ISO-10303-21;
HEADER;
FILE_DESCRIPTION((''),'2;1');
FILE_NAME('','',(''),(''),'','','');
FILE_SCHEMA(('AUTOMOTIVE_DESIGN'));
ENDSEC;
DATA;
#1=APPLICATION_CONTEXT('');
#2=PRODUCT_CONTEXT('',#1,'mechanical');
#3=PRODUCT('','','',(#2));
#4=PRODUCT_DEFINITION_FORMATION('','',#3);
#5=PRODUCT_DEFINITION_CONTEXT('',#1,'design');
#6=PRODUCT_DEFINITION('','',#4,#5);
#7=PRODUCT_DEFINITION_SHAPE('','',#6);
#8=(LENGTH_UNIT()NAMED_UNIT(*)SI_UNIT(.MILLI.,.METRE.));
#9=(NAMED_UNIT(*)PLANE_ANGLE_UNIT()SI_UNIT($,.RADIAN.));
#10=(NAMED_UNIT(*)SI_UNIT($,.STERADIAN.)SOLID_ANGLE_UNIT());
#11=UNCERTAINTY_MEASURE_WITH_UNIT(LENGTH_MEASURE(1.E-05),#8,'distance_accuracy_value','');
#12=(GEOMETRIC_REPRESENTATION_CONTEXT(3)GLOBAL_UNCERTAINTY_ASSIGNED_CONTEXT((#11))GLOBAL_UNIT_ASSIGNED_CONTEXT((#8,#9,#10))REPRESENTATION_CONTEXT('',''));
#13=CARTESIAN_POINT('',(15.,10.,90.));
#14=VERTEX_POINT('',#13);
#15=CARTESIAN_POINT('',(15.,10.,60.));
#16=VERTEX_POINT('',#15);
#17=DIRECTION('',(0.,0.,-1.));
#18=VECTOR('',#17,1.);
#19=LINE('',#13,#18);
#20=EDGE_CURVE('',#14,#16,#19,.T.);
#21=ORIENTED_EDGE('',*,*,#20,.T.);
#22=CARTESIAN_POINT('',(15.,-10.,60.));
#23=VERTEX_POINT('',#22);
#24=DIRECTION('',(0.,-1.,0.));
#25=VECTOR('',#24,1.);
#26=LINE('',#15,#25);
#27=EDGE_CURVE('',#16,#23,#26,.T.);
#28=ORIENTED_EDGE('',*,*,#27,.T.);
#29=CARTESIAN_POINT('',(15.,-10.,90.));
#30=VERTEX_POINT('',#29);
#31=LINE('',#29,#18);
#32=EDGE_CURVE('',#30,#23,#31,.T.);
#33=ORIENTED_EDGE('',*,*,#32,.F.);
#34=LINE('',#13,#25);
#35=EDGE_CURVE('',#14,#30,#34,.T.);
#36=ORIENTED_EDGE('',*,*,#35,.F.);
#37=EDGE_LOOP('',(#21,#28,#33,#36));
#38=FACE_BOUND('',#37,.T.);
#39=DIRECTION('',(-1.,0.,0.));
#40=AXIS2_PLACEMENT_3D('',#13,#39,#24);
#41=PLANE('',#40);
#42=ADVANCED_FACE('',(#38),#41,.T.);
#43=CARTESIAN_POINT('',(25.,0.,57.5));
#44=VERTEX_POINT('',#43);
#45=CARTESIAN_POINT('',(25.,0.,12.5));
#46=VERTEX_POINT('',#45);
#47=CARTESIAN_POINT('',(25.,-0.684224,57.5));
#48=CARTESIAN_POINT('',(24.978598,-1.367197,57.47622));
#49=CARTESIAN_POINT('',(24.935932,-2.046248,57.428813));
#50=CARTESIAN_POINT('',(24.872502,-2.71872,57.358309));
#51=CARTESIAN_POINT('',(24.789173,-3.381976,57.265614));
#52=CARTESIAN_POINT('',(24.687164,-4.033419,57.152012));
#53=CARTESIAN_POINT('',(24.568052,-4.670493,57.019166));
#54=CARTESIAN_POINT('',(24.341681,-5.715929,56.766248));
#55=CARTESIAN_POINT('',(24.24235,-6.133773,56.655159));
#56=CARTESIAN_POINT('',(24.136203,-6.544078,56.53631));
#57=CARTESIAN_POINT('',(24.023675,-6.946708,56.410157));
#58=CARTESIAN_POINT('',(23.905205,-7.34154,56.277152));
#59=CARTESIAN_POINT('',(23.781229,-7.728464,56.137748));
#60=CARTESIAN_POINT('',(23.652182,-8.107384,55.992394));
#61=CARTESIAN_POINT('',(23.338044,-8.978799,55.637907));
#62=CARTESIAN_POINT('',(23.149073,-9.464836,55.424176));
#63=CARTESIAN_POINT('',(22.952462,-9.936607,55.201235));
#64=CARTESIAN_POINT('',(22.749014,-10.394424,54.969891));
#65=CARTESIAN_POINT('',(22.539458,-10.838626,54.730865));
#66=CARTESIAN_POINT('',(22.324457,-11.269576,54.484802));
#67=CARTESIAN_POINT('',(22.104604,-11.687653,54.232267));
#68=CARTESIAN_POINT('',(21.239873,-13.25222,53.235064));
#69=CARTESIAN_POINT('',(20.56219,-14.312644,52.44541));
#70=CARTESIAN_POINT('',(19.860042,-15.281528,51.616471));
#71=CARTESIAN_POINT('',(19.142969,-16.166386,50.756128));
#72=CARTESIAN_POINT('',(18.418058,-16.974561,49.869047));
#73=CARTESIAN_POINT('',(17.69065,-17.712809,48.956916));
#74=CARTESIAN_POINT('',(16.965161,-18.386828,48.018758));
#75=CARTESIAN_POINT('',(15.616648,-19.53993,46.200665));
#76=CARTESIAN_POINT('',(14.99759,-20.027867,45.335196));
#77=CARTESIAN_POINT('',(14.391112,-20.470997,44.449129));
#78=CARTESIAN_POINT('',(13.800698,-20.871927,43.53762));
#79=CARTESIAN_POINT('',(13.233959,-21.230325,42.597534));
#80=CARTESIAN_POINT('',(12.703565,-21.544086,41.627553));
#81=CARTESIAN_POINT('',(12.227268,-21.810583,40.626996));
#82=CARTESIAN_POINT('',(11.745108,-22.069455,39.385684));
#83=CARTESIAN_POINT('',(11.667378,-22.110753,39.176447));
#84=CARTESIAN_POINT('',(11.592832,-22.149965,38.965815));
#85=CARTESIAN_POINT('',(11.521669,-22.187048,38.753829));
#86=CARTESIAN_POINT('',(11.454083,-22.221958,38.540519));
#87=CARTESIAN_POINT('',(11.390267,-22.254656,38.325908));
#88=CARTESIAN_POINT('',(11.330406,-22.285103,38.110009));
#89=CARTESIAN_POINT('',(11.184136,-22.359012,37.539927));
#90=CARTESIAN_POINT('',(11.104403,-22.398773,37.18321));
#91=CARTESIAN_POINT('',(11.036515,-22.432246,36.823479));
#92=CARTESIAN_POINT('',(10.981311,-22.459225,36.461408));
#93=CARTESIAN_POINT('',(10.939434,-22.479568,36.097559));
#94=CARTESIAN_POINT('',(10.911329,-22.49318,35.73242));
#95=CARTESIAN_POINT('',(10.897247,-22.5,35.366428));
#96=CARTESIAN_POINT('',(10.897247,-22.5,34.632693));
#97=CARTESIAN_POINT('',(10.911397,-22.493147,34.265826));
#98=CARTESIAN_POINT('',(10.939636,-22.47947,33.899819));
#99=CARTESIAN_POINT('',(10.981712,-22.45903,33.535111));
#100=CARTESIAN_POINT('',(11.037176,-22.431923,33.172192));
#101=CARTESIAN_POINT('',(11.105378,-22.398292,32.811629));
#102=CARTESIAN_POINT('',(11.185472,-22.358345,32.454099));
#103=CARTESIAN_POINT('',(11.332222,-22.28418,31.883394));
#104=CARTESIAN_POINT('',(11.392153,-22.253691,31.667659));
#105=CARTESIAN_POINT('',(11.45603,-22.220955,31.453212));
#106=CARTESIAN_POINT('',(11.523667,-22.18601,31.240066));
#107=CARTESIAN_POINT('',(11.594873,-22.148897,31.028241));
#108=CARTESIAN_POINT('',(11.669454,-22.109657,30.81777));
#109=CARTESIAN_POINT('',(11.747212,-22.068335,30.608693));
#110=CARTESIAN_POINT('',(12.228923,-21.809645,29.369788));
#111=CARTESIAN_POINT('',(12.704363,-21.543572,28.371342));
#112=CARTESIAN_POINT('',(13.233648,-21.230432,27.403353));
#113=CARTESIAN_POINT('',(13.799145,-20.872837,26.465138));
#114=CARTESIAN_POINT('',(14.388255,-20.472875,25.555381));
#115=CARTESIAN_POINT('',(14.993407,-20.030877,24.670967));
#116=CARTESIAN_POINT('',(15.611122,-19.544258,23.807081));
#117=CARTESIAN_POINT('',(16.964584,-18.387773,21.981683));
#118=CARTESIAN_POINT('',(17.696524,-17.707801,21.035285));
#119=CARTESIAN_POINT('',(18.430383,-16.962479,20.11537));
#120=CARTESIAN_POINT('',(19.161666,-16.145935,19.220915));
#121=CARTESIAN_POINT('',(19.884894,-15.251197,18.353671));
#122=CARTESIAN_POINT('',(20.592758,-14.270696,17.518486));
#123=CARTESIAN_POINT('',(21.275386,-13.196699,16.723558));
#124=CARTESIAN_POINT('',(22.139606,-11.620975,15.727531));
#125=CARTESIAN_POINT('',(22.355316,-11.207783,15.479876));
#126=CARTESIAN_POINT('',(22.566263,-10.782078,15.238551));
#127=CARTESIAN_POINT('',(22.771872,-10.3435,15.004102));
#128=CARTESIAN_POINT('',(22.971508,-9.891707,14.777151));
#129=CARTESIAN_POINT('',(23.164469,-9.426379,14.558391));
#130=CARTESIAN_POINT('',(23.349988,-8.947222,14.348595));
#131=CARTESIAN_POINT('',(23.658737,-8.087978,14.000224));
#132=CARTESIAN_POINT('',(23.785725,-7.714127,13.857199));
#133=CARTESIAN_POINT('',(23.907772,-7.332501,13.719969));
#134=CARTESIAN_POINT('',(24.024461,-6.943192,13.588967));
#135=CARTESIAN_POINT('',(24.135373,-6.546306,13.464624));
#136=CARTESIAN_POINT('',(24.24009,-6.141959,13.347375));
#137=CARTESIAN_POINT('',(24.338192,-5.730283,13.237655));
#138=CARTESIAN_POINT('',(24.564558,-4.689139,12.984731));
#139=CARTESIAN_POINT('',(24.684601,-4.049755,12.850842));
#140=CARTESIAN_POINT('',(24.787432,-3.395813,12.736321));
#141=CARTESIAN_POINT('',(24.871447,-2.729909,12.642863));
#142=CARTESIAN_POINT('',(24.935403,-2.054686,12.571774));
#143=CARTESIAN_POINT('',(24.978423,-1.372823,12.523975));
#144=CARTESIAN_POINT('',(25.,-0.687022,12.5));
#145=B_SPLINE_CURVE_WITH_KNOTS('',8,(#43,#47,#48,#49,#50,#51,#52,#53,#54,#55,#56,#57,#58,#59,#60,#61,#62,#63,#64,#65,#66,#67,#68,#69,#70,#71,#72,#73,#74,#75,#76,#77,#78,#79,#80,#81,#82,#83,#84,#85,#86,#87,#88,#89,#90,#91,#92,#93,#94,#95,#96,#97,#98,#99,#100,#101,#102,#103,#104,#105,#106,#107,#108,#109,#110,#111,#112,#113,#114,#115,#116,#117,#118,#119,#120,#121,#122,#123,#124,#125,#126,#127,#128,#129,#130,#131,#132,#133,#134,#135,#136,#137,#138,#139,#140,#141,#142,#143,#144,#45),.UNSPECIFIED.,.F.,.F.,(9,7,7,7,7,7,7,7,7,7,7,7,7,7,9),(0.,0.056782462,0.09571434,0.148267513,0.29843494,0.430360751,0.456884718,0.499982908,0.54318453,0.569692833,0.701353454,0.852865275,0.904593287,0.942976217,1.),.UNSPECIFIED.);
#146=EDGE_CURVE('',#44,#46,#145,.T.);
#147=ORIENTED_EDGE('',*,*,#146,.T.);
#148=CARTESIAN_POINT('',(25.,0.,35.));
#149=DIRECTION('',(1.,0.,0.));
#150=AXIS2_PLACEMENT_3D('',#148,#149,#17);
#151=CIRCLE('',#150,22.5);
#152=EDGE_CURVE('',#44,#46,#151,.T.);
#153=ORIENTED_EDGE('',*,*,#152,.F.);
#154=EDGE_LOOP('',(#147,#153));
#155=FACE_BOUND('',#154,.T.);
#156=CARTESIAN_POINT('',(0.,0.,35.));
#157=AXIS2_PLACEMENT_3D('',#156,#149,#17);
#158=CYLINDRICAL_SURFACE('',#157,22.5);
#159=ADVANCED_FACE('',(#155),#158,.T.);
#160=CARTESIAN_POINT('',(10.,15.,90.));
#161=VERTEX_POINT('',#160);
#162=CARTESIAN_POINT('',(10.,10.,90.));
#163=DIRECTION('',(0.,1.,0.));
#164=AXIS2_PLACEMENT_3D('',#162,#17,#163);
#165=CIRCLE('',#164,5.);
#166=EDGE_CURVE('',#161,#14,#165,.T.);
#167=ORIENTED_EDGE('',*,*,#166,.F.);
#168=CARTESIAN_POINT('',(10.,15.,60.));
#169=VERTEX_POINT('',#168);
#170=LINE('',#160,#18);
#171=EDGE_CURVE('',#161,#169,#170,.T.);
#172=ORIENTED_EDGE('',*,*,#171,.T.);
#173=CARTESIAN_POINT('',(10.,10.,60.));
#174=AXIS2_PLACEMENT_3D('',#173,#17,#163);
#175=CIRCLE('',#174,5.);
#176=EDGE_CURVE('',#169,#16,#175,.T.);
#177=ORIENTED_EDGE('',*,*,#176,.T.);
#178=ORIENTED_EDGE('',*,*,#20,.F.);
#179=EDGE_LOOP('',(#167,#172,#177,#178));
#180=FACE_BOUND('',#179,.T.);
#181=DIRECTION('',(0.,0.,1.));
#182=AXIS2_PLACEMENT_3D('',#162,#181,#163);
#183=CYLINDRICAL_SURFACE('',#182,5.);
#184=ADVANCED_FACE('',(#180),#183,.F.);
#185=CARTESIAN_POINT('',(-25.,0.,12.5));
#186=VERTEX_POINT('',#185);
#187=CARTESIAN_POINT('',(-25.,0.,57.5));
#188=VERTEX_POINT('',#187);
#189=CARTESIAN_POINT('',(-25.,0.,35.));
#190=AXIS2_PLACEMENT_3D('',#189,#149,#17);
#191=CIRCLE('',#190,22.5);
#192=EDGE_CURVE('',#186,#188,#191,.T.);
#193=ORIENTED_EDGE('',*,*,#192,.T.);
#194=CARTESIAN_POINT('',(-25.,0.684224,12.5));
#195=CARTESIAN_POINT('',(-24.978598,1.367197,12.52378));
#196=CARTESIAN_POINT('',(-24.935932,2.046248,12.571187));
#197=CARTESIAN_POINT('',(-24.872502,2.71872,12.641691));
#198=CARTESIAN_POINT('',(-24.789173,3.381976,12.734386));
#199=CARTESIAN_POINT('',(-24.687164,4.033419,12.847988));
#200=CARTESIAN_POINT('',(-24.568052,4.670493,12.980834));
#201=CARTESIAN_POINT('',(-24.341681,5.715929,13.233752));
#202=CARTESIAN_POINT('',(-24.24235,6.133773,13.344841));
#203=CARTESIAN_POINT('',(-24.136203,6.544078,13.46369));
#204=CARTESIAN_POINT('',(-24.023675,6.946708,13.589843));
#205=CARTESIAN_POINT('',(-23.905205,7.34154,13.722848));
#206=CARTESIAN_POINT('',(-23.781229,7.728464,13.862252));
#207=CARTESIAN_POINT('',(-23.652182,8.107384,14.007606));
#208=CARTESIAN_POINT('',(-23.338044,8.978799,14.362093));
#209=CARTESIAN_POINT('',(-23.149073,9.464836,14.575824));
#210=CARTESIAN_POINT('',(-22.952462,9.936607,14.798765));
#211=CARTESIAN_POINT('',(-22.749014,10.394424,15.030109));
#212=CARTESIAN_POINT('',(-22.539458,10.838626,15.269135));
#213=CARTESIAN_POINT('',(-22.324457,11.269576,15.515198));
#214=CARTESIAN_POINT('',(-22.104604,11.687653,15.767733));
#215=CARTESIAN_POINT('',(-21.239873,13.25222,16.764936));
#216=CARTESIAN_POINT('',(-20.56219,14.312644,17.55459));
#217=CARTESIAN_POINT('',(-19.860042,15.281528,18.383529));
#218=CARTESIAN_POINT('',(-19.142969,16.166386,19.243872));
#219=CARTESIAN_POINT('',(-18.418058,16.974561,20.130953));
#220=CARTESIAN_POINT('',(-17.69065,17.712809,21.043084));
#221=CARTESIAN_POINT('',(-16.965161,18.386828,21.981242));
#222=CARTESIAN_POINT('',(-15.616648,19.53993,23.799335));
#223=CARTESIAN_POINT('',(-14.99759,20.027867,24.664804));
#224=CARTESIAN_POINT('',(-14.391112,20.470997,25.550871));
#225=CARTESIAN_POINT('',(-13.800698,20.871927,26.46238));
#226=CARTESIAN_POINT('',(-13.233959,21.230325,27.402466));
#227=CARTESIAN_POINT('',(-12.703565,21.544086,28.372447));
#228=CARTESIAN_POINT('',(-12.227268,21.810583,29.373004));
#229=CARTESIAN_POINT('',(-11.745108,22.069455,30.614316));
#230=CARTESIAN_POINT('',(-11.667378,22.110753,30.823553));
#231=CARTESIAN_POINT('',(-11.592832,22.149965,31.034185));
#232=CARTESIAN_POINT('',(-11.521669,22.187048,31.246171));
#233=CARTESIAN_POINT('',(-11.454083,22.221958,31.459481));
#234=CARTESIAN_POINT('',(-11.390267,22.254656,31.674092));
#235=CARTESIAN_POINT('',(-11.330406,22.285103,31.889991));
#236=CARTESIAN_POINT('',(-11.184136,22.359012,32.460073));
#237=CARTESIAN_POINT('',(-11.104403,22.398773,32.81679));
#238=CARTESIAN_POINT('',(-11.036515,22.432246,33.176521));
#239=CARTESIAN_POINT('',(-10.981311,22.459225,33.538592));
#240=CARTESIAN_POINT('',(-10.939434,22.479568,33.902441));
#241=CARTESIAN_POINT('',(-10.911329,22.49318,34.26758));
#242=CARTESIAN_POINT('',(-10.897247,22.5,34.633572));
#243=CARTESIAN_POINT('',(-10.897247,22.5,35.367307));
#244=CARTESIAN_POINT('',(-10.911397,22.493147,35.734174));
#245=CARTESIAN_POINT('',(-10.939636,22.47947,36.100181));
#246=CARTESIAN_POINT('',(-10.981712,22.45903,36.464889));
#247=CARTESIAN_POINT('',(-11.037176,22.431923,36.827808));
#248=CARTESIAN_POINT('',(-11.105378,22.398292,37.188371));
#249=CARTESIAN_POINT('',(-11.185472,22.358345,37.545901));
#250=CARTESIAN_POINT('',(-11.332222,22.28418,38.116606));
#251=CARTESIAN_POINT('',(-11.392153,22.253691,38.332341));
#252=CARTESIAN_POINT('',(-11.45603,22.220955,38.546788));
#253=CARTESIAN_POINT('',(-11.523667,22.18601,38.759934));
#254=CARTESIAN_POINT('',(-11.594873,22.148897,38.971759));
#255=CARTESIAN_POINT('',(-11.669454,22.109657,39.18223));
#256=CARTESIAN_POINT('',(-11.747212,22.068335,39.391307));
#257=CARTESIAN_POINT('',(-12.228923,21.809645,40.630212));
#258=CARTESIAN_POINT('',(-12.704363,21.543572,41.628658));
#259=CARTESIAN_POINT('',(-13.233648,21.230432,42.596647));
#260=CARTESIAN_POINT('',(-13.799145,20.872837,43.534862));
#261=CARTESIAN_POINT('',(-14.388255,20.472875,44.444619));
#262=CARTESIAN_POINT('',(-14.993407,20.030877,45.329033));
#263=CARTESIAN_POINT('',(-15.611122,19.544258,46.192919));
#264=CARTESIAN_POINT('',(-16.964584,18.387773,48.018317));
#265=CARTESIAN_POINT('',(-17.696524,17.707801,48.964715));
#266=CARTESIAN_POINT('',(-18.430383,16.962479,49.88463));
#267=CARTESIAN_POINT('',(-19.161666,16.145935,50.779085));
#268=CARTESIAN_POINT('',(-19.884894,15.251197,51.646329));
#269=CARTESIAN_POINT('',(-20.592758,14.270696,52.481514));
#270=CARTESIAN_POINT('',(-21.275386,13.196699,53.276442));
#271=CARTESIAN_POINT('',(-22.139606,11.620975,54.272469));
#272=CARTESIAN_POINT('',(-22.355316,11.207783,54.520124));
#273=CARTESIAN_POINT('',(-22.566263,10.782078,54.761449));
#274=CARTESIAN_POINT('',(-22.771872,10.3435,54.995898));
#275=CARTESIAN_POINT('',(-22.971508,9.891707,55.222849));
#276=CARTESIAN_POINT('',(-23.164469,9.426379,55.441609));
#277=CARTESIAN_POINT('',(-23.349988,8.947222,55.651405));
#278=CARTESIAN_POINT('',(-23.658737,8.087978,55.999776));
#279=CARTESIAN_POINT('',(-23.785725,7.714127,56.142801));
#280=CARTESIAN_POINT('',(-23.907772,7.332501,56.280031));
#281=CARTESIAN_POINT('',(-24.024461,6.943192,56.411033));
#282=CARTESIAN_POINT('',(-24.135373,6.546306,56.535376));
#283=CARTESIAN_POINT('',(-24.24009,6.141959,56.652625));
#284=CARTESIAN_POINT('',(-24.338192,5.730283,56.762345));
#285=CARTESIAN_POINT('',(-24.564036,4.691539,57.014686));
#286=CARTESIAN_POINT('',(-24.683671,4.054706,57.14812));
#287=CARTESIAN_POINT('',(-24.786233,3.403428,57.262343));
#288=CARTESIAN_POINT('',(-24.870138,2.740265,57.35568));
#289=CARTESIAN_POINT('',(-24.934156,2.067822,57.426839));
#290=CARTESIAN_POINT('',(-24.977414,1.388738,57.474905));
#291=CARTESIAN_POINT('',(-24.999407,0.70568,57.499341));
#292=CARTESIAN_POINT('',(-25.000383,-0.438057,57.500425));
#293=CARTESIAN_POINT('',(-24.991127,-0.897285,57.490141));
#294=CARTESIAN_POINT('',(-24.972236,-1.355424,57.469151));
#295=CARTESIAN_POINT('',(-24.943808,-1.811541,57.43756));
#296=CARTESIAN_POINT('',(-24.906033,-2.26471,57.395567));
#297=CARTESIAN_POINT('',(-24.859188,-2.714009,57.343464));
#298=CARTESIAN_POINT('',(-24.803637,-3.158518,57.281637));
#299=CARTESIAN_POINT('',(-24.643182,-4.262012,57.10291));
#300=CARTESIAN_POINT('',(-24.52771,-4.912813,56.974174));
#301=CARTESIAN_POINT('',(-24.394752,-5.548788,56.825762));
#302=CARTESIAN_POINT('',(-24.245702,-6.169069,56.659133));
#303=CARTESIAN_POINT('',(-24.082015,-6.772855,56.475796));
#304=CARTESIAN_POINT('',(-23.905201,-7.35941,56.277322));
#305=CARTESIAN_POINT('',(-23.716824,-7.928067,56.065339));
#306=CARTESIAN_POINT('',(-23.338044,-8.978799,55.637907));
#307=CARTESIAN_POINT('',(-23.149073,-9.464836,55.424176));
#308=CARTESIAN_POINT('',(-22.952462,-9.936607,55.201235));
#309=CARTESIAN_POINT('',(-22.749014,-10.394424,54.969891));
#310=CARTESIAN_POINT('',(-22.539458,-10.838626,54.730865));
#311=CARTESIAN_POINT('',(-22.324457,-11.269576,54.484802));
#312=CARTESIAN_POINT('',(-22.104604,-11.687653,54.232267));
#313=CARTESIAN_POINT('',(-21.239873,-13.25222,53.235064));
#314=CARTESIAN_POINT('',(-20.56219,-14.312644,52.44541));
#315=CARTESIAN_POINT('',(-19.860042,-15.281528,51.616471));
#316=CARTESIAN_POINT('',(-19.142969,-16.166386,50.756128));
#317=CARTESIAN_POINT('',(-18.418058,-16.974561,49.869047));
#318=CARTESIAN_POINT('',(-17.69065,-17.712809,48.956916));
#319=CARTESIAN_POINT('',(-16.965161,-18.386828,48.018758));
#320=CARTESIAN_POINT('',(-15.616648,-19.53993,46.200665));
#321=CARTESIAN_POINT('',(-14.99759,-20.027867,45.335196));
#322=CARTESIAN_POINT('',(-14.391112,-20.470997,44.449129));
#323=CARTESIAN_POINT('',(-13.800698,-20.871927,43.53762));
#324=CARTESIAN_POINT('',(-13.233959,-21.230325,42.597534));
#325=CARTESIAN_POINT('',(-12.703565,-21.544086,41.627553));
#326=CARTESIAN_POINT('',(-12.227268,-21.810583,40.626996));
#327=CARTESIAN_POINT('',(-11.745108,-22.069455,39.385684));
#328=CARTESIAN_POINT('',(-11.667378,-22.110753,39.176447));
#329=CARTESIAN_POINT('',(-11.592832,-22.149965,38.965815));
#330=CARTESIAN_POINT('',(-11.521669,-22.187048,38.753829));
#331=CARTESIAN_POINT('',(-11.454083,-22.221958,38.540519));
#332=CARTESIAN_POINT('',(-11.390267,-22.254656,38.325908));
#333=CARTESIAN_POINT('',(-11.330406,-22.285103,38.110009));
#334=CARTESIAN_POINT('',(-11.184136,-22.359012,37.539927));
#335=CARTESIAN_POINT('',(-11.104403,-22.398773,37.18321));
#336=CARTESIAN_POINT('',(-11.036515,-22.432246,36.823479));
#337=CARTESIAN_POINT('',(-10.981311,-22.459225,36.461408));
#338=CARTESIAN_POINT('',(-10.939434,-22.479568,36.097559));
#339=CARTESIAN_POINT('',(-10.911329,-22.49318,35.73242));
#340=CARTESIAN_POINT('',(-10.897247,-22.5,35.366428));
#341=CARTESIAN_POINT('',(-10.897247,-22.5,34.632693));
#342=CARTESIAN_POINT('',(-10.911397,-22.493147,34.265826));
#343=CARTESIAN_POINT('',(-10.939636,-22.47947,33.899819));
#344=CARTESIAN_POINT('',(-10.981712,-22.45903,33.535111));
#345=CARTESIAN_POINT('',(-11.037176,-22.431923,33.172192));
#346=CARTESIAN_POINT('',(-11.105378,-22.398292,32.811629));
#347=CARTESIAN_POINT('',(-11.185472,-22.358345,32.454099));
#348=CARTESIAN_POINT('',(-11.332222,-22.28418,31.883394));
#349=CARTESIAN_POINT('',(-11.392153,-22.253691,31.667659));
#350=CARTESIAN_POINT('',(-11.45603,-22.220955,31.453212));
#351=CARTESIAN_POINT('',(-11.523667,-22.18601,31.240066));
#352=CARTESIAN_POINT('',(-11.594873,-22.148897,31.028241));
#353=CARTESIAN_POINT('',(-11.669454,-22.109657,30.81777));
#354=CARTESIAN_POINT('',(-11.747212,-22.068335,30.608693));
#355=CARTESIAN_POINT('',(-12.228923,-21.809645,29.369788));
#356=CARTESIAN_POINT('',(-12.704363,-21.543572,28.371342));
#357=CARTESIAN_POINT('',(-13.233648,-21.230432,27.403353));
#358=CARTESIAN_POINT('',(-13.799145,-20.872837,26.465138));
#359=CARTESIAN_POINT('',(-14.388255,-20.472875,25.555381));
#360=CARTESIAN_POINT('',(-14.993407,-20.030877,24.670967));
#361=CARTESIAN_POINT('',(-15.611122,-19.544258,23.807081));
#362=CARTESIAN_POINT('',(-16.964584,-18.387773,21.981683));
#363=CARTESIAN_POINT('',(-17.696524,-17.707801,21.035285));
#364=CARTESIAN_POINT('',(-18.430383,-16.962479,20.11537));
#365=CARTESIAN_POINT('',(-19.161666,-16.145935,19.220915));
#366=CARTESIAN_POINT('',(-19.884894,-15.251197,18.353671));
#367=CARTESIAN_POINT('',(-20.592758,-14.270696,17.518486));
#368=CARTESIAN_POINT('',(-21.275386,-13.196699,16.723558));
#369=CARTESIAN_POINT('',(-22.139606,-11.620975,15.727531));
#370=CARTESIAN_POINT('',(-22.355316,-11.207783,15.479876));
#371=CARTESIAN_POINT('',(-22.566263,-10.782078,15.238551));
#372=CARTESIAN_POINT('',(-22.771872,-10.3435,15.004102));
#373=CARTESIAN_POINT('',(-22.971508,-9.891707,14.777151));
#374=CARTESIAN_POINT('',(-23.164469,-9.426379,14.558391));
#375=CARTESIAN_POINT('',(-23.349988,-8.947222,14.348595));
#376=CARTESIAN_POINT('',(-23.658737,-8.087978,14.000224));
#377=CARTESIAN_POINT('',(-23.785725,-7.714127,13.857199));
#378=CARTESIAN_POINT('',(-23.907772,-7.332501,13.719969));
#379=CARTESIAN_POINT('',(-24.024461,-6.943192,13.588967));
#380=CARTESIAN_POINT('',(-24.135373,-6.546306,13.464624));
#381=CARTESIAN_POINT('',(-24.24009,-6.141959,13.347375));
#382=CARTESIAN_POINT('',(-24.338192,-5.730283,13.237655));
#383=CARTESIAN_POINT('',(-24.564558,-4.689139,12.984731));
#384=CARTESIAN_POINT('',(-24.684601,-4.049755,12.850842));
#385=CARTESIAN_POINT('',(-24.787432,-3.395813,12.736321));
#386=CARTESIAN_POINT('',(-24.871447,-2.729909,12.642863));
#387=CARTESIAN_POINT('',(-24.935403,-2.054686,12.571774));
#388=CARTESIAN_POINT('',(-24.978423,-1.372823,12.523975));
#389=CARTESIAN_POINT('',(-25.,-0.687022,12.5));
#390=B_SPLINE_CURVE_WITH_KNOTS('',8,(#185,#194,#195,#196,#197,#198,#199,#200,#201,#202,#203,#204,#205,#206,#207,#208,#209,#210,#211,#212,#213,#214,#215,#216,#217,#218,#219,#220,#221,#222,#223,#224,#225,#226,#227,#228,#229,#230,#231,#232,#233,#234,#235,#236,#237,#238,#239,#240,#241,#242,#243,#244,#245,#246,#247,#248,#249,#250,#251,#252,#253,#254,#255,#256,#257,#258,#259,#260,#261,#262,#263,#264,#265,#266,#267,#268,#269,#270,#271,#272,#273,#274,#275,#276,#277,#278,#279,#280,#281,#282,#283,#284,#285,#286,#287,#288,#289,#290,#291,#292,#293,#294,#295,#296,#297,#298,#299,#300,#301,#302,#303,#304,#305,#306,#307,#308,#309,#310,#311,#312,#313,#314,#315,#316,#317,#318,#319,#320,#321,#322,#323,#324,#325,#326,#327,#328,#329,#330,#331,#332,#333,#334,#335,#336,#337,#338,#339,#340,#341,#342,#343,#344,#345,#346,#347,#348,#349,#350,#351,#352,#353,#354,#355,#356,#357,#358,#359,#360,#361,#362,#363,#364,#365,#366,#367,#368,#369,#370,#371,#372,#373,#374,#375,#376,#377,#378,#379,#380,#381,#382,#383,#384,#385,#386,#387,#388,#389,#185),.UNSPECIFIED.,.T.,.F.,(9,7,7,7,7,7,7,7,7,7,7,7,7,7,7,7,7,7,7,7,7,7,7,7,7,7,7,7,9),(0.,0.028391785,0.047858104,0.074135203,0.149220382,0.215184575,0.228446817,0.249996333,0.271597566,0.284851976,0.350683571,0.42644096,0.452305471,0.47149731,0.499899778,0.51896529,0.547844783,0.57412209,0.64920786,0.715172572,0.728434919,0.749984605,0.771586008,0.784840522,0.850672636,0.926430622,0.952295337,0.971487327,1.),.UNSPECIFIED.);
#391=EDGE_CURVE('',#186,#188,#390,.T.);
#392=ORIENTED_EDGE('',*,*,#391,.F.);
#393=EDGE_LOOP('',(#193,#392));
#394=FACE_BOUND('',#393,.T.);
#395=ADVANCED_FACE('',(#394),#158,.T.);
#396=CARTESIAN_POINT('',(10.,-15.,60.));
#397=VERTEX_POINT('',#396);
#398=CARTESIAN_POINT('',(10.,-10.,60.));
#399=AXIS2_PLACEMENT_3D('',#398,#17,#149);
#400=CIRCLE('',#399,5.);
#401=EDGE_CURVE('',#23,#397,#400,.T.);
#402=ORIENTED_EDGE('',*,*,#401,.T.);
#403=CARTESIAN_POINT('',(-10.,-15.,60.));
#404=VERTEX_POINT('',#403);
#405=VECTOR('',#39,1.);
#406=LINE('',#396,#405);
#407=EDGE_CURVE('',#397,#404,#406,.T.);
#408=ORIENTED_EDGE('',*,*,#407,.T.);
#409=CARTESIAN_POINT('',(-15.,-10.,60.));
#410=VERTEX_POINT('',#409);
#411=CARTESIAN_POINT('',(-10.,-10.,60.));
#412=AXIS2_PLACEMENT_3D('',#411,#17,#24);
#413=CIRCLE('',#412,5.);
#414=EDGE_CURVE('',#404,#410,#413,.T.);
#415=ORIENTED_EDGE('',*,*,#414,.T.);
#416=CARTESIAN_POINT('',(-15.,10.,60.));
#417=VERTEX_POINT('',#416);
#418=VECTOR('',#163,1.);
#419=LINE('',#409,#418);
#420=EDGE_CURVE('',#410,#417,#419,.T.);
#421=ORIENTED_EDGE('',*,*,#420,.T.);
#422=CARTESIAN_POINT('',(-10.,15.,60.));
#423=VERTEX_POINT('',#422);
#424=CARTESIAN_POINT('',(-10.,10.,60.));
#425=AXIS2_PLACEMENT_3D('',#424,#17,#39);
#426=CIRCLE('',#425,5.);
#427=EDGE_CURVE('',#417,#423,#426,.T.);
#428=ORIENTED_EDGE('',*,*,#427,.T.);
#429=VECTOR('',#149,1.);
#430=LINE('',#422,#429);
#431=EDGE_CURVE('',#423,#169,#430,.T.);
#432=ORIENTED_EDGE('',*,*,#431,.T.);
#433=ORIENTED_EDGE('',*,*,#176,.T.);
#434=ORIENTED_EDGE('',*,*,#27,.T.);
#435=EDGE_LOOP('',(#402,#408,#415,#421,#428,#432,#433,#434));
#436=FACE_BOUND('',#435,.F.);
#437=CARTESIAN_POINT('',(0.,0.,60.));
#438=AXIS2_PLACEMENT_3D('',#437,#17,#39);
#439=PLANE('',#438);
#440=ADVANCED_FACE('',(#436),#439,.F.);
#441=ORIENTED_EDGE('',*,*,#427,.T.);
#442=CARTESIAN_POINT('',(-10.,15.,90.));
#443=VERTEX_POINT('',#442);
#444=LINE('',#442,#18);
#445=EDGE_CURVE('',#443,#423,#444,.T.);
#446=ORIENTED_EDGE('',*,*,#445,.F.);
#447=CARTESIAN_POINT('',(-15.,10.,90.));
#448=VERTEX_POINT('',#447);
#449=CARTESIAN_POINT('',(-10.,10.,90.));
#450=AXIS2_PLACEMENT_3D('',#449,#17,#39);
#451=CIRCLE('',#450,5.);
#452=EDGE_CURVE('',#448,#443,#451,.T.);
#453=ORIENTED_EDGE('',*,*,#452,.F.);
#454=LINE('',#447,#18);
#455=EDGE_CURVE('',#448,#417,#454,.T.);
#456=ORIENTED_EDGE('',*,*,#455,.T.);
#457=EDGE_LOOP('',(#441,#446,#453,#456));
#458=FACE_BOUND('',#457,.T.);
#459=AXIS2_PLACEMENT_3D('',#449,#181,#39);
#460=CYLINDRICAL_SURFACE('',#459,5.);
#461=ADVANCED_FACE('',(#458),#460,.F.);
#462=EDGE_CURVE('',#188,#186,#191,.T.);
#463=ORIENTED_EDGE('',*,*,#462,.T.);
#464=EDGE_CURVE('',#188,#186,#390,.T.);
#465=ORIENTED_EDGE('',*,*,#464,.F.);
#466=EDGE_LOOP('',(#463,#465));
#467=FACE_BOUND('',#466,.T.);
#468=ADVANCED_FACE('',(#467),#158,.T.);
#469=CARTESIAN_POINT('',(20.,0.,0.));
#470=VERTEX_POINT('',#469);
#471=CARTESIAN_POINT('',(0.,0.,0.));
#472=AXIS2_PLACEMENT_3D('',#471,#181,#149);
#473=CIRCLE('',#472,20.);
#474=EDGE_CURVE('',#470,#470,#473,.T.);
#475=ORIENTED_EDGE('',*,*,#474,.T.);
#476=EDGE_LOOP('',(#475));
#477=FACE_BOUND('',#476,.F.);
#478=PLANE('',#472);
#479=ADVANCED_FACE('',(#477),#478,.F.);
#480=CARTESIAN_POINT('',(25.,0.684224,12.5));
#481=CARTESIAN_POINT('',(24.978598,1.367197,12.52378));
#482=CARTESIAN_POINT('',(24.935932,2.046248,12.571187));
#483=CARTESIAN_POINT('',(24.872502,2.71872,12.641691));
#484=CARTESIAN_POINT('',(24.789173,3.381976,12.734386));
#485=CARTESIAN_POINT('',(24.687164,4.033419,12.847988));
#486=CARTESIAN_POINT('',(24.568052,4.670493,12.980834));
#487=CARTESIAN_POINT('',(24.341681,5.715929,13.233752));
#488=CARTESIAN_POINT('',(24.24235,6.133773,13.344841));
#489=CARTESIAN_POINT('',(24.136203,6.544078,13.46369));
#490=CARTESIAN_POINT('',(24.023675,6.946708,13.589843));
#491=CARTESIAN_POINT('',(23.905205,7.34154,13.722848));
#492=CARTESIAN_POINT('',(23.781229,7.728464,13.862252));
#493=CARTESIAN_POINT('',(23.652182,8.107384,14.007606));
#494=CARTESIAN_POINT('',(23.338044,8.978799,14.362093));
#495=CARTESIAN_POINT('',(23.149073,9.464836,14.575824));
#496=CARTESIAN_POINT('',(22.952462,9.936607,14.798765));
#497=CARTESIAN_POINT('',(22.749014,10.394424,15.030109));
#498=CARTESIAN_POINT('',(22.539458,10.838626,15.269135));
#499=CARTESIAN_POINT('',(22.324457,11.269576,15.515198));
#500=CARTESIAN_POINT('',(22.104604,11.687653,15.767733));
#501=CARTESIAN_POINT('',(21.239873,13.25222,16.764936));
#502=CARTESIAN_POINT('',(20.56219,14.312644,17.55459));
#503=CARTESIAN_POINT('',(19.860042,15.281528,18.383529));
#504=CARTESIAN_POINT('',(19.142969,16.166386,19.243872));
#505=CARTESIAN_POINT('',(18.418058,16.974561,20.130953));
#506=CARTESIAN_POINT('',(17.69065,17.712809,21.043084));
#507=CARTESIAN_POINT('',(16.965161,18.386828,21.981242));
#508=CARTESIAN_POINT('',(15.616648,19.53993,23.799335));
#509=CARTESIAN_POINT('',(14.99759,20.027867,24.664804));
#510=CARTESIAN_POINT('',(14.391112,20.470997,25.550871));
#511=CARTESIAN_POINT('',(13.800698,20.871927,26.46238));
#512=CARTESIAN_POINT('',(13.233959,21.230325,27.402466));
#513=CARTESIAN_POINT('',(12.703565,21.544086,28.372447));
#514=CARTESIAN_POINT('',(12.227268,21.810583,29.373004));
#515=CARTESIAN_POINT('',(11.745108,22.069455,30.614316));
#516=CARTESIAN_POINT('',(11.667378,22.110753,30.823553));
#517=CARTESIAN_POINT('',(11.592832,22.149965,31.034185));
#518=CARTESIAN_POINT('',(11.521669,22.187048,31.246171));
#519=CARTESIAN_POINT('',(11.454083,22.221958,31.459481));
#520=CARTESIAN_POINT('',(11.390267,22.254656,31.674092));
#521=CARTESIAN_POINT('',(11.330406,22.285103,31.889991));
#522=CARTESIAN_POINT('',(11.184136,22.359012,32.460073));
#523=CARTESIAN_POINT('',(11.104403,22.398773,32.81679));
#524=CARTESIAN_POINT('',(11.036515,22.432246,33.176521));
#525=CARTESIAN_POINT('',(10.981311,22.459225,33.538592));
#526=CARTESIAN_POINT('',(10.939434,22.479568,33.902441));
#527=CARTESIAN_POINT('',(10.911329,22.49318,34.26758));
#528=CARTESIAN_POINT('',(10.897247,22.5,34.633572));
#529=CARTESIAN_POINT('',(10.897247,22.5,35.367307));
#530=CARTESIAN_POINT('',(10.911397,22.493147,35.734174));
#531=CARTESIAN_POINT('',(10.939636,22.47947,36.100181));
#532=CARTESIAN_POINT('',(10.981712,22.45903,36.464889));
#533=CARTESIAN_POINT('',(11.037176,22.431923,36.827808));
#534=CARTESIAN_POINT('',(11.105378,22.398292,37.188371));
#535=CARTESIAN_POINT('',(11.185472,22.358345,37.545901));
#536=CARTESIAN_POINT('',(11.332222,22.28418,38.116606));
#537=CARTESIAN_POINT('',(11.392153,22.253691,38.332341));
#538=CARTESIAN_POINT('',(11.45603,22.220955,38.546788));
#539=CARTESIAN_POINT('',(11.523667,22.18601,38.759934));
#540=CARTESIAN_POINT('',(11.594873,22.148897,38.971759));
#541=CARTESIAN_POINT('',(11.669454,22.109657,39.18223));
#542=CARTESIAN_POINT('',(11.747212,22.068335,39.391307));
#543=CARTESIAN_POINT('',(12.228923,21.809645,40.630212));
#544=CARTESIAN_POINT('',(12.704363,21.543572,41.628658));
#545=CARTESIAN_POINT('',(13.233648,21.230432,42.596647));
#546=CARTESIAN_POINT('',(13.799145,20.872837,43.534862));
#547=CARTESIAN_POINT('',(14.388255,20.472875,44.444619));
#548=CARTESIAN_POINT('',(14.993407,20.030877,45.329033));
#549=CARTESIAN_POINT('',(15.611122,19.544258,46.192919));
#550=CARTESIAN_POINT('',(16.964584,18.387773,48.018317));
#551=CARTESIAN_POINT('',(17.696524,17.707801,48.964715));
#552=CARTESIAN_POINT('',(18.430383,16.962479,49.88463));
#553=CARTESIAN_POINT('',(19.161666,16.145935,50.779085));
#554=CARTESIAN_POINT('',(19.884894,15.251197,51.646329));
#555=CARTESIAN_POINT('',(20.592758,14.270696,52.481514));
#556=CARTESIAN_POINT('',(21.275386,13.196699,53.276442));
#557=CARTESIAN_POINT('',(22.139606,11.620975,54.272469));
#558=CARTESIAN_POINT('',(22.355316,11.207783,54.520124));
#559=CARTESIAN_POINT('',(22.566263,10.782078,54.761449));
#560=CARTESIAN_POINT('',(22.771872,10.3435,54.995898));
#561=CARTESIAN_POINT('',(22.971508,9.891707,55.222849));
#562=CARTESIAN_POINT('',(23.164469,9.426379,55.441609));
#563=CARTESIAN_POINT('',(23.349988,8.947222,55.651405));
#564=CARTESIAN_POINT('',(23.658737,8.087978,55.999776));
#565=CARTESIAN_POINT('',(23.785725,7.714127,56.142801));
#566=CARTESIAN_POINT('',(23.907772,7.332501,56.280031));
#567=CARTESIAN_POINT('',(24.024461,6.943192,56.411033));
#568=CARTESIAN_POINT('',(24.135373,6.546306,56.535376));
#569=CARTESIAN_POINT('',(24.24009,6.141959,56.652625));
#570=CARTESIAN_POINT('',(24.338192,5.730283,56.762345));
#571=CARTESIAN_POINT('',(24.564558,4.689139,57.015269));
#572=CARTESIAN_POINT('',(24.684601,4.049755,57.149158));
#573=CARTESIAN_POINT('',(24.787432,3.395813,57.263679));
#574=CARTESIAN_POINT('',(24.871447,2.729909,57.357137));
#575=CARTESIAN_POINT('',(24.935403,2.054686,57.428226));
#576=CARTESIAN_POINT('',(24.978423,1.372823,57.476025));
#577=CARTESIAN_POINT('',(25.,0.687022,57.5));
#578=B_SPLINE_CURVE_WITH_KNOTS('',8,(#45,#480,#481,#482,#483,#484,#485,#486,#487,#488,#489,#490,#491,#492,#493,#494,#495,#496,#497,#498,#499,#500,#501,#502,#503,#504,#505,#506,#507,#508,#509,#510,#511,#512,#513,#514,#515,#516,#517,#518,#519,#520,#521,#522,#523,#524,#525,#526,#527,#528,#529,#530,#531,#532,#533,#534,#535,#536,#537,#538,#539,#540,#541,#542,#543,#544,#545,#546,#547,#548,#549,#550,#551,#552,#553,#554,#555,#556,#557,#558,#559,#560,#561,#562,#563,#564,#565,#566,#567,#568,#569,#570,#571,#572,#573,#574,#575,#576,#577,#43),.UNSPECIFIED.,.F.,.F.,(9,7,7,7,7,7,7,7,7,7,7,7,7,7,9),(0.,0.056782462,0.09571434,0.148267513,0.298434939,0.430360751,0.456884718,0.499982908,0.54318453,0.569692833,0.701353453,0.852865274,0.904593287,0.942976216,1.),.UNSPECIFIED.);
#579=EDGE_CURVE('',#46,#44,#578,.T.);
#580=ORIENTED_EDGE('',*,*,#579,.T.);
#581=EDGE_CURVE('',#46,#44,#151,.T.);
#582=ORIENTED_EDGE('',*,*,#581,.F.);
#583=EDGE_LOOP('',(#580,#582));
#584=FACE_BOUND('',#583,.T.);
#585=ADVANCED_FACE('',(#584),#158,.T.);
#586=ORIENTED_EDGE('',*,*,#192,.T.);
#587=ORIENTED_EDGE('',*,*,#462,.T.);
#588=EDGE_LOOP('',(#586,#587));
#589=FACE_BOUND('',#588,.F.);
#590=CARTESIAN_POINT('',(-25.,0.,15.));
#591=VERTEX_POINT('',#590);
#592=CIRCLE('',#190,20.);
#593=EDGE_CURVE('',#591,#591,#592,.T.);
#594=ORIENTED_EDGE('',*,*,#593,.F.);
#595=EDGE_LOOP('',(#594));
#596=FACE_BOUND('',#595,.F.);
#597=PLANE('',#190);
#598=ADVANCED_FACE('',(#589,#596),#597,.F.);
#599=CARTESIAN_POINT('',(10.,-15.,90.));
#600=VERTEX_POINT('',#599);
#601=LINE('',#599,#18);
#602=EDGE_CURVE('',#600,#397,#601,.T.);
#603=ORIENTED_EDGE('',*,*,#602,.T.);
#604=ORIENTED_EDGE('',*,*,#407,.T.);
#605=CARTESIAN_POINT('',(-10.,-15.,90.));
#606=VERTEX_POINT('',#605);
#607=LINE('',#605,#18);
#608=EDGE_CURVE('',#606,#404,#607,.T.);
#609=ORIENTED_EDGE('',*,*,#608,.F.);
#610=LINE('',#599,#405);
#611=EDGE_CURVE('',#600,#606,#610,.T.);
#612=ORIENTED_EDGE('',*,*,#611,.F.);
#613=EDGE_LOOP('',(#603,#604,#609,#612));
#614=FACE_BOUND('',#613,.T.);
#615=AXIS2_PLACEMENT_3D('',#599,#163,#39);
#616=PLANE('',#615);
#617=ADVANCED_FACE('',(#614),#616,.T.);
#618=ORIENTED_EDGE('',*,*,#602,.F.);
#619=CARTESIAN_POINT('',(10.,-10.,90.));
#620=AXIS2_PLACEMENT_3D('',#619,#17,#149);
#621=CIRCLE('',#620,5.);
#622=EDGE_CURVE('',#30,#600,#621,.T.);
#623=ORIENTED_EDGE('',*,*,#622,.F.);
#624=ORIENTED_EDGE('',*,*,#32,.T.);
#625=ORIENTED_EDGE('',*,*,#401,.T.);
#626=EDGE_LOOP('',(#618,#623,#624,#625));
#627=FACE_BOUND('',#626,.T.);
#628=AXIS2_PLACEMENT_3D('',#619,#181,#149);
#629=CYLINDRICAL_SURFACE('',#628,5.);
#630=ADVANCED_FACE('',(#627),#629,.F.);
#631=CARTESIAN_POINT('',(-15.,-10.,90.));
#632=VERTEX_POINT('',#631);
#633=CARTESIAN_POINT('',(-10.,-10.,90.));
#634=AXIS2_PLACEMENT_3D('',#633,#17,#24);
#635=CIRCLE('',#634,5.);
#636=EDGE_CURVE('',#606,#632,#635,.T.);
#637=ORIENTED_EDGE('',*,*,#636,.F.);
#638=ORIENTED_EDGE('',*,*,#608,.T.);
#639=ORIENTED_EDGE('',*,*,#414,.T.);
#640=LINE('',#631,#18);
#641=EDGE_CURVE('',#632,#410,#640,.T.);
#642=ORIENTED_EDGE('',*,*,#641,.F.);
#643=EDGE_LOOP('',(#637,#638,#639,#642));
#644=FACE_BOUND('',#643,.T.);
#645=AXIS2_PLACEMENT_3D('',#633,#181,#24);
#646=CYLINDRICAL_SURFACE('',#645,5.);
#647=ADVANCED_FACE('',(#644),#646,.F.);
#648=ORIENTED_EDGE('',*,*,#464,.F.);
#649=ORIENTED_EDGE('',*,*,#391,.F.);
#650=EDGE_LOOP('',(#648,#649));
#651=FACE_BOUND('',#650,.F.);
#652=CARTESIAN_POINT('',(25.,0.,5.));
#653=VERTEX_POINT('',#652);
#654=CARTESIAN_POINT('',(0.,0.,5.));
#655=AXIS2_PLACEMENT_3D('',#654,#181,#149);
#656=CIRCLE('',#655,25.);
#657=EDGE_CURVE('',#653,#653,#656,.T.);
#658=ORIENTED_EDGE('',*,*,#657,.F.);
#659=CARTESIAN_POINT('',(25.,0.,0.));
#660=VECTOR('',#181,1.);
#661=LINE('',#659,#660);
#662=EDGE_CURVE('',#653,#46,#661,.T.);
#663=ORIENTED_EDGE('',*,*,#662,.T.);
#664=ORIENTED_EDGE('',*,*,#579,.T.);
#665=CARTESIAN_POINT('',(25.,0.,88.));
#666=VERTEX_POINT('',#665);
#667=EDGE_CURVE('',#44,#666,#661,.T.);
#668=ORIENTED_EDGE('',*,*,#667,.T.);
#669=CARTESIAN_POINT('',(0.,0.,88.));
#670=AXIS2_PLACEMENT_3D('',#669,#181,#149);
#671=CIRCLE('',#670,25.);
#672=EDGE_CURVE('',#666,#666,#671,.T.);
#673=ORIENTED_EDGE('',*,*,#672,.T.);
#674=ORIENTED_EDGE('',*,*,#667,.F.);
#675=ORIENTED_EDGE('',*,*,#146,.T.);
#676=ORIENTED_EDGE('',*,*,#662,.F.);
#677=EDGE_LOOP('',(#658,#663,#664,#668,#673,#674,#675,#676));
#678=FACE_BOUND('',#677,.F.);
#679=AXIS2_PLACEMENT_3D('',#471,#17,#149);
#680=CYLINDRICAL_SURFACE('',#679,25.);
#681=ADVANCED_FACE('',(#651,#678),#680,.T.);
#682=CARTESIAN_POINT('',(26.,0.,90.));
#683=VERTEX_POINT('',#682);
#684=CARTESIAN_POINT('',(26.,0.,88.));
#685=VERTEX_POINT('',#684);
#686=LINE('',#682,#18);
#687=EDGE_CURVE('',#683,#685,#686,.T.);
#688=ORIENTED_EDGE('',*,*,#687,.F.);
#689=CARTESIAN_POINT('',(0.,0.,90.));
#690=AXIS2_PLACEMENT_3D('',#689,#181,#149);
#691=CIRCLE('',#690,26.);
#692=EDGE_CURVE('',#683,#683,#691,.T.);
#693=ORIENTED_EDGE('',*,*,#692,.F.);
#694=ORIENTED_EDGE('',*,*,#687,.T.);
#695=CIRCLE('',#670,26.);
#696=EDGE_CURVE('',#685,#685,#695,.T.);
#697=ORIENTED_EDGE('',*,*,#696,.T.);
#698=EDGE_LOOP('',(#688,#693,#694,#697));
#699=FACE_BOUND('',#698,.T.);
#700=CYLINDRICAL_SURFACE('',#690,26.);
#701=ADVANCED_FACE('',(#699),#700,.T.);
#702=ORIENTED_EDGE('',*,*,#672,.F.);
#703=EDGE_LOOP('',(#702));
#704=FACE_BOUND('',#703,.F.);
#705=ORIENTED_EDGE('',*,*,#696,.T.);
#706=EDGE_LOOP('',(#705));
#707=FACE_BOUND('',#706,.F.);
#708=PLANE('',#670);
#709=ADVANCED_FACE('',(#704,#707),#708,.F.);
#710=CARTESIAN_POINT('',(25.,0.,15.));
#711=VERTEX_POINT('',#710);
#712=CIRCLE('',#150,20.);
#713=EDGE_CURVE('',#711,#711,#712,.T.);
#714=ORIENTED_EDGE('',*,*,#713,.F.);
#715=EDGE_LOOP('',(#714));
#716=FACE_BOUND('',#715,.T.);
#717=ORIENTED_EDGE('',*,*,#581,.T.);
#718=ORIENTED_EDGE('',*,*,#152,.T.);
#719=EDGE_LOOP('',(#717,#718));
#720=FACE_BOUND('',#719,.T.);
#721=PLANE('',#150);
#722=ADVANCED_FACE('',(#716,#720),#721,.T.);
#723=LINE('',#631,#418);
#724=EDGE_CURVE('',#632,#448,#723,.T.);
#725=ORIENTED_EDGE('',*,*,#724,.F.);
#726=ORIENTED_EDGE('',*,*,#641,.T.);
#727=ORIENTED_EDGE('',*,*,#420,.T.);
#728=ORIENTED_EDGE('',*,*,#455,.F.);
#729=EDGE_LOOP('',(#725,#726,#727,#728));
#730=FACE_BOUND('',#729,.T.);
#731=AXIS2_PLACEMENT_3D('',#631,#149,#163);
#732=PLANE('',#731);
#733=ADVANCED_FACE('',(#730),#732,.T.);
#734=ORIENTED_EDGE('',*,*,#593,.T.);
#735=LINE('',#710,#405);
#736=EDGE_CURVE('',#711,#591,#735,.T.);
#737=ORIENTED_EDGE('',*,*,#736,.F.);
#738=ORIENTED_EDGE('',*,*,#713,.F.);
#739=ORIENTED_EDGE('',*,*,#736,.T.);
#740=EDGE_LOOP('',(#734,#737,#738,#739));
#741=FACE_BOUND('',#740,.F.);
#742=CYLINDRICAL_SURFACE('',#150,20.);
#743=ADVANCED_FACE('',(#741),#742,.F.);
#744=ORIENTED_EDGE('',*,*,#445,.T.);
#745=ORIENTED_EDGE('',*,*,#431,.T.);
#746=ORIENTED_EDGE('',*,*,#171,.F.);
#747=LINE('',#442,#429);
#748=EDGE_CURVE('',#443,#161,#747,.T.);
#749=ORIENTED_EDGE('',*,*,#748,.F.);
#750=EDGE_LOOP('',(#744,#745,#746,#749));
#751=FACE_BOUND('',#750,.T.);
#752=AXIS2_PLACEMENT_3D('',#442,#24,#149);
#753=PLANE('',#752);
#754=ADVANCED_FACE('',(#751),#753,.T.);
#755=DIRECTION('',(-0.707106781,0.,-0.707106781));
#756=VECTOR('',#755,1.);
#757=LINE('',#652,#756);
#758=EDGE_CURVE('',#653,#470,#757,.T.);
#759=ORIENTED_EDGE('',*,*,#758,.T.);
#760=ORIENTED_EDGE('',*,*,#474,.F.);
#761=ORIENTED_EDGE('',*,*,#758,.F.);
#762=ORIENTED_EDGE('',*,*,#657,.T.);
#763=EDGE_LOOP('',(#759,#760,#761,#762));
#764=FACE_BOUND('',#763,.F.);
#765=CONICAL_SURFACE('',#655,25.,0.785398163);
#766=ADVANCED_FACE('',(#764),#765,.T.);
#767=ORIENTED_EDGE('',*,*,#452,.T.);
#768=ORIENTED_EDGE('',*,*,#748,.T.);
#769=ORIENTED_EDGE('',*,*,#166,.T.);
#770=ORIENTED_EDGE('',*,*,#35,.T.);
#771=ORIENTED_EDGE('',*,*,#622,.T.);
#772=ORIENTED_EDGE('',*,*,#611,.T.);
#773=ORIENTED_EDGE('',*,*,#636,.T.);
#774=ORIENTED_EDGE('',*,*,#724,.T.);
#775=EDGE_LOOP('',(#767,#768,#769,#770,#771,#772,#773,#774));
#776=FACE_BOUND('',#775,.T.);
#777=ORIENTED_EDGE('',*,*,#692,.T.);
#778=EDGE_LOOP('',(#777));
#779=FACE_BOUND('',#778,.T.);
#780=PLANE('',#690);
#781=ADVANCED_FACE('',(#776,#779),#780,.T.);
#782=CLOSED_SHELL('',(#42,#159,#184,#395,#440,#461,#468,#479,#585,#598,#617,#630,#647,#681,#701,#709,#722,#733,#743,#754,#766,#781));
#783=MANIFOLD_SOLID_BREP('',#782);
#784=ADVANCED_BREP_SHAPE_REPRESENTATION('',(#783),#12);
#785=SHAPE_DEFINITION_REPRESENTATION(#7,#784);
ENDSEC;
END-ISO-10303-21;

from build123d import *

# Parameters (mm, degrees)
SKETCH1_R               = 25
BOSS_EXTRUDE3_DEPTH     = 100
SKETCH4_R               = 22.5
BOSS_EXTRUDE4_DEPTH     = 25
SKETCH5_R               = 20
CUT_EXTRUDE2_DEPTH      = 50
CHAMFER1_SIZE           = 5
SKETCH9_W               = 10
SKETCH9_H               = 60.112874217
CUT_EXTRUDE3_DEPTH      = 26.0000001
CUT_EXTRUDE3_DEPTH_BACK = 26.0000001
CUT_EXTRUDE4_DEPTH      = 30
SKETCH12_R              = 26
SKETCH12_R_2            = 25
BOSS_EXTRUDE6_DEPTH     = 2


with BuildPart() as part:
    # Sketch1 → Boss-Extrude3 (new body)
    with BuildSketch(Plane.XY):
        Circle(SKETCH1_R)
    extrude(amount=BOSS_EXTRUDE3_DEPTH)

    # Sketch4 → Boss-Extrude4 (add, symmetric)
    with BuildSketch(Plane(origin=(0, 0, 0), x_dir=(0, 0, -1), z_dir=(1, 0, 0))):
        with Locations((-35, 0)):
            Circle(SKETCH4_R)
    extrude(amount=BOSS_EXTRUDE4_DEPTH, both=True)

    # Sketch5 → Cut-Extrude2 (cut)
    with BuildSketch(Plane(origin=(25, 0, 0), x_dir=(0, 0, -1), z_dir=(1, 0, 0))):
        with Locations((-35, 0)):
            Circle(SKETCH5_R)
    extrude(amount=-CUT_EXTRUDE2_DEPTH, mode=Mode.SUBTRACT)

    # Chamfer1
    chamfer1_edges = [part.edges().sort_by_distance(p)[0] for p in [
        (-25, 0, 0),
    ]]
    chamfer(chamfer1_edges, length=CHAMFER1_SIZE)

    # Sketch9 → Cut-Extrude3 (cut, two sides)
    with BuildSketch(Plane(origin=(0, 0, 0), x_dir=(0, 0, -1), z_dir=(1, 0, 0))) as cut_extrude3_sk:
        with Locations((-95, -5.056437109)):
            Rectangle(SKETCH9_W, SKETCH9_H)
    extrude(amount=CUT_EXTRUDE3_DEPTH, mode=Mode.SUBTRACT)
    extrude(cut_extrude3_sk.sketch, amount=-CUT_EXTRUDE3_DEPTH_BACK, mode=Mode.SUBTRACT)

    # Sketch11 → Cut-Extrude4 (cut)
    with BuildSketch(Plane.XY.offset(90)):
        with BuildLine():
            Line((-10, 15), (10, 15))
            ThreePointArc((10, 15), (13.535533906, 13.535533906), (15, 10))
            Line((15, 10), (15, -10))
            ThreePointArc((15, -10), (13.535533906, -13.535533906), (10, -15))
            Line((10, -15), (-10, -15))
            ThreePointArc((-10, -15), (-13.535533906, -13.535533906), (-15, -10))
            Line((-15, -10), (-15, 10))
            ThreePointArc((-15, 10), (-13.535533906, 13.535533906), (-10, 15))
        make_face()
    extrude(amount=-CUT_EXTRUDE4_DEPTH, mode=Mode.SUBTRACT)

    # Sketch12 → Boss-Extrude6 (add)
    with BuildSketch(Plane.XY.offset(90)):
        Circle(SKETCH12_R)
        Circle(SKETCH12_R_2, mode=Mode.SUBTRACT)
    extrude(amount=-BOSS_EXTRUDE6_DEPTH)


solid = part.part
